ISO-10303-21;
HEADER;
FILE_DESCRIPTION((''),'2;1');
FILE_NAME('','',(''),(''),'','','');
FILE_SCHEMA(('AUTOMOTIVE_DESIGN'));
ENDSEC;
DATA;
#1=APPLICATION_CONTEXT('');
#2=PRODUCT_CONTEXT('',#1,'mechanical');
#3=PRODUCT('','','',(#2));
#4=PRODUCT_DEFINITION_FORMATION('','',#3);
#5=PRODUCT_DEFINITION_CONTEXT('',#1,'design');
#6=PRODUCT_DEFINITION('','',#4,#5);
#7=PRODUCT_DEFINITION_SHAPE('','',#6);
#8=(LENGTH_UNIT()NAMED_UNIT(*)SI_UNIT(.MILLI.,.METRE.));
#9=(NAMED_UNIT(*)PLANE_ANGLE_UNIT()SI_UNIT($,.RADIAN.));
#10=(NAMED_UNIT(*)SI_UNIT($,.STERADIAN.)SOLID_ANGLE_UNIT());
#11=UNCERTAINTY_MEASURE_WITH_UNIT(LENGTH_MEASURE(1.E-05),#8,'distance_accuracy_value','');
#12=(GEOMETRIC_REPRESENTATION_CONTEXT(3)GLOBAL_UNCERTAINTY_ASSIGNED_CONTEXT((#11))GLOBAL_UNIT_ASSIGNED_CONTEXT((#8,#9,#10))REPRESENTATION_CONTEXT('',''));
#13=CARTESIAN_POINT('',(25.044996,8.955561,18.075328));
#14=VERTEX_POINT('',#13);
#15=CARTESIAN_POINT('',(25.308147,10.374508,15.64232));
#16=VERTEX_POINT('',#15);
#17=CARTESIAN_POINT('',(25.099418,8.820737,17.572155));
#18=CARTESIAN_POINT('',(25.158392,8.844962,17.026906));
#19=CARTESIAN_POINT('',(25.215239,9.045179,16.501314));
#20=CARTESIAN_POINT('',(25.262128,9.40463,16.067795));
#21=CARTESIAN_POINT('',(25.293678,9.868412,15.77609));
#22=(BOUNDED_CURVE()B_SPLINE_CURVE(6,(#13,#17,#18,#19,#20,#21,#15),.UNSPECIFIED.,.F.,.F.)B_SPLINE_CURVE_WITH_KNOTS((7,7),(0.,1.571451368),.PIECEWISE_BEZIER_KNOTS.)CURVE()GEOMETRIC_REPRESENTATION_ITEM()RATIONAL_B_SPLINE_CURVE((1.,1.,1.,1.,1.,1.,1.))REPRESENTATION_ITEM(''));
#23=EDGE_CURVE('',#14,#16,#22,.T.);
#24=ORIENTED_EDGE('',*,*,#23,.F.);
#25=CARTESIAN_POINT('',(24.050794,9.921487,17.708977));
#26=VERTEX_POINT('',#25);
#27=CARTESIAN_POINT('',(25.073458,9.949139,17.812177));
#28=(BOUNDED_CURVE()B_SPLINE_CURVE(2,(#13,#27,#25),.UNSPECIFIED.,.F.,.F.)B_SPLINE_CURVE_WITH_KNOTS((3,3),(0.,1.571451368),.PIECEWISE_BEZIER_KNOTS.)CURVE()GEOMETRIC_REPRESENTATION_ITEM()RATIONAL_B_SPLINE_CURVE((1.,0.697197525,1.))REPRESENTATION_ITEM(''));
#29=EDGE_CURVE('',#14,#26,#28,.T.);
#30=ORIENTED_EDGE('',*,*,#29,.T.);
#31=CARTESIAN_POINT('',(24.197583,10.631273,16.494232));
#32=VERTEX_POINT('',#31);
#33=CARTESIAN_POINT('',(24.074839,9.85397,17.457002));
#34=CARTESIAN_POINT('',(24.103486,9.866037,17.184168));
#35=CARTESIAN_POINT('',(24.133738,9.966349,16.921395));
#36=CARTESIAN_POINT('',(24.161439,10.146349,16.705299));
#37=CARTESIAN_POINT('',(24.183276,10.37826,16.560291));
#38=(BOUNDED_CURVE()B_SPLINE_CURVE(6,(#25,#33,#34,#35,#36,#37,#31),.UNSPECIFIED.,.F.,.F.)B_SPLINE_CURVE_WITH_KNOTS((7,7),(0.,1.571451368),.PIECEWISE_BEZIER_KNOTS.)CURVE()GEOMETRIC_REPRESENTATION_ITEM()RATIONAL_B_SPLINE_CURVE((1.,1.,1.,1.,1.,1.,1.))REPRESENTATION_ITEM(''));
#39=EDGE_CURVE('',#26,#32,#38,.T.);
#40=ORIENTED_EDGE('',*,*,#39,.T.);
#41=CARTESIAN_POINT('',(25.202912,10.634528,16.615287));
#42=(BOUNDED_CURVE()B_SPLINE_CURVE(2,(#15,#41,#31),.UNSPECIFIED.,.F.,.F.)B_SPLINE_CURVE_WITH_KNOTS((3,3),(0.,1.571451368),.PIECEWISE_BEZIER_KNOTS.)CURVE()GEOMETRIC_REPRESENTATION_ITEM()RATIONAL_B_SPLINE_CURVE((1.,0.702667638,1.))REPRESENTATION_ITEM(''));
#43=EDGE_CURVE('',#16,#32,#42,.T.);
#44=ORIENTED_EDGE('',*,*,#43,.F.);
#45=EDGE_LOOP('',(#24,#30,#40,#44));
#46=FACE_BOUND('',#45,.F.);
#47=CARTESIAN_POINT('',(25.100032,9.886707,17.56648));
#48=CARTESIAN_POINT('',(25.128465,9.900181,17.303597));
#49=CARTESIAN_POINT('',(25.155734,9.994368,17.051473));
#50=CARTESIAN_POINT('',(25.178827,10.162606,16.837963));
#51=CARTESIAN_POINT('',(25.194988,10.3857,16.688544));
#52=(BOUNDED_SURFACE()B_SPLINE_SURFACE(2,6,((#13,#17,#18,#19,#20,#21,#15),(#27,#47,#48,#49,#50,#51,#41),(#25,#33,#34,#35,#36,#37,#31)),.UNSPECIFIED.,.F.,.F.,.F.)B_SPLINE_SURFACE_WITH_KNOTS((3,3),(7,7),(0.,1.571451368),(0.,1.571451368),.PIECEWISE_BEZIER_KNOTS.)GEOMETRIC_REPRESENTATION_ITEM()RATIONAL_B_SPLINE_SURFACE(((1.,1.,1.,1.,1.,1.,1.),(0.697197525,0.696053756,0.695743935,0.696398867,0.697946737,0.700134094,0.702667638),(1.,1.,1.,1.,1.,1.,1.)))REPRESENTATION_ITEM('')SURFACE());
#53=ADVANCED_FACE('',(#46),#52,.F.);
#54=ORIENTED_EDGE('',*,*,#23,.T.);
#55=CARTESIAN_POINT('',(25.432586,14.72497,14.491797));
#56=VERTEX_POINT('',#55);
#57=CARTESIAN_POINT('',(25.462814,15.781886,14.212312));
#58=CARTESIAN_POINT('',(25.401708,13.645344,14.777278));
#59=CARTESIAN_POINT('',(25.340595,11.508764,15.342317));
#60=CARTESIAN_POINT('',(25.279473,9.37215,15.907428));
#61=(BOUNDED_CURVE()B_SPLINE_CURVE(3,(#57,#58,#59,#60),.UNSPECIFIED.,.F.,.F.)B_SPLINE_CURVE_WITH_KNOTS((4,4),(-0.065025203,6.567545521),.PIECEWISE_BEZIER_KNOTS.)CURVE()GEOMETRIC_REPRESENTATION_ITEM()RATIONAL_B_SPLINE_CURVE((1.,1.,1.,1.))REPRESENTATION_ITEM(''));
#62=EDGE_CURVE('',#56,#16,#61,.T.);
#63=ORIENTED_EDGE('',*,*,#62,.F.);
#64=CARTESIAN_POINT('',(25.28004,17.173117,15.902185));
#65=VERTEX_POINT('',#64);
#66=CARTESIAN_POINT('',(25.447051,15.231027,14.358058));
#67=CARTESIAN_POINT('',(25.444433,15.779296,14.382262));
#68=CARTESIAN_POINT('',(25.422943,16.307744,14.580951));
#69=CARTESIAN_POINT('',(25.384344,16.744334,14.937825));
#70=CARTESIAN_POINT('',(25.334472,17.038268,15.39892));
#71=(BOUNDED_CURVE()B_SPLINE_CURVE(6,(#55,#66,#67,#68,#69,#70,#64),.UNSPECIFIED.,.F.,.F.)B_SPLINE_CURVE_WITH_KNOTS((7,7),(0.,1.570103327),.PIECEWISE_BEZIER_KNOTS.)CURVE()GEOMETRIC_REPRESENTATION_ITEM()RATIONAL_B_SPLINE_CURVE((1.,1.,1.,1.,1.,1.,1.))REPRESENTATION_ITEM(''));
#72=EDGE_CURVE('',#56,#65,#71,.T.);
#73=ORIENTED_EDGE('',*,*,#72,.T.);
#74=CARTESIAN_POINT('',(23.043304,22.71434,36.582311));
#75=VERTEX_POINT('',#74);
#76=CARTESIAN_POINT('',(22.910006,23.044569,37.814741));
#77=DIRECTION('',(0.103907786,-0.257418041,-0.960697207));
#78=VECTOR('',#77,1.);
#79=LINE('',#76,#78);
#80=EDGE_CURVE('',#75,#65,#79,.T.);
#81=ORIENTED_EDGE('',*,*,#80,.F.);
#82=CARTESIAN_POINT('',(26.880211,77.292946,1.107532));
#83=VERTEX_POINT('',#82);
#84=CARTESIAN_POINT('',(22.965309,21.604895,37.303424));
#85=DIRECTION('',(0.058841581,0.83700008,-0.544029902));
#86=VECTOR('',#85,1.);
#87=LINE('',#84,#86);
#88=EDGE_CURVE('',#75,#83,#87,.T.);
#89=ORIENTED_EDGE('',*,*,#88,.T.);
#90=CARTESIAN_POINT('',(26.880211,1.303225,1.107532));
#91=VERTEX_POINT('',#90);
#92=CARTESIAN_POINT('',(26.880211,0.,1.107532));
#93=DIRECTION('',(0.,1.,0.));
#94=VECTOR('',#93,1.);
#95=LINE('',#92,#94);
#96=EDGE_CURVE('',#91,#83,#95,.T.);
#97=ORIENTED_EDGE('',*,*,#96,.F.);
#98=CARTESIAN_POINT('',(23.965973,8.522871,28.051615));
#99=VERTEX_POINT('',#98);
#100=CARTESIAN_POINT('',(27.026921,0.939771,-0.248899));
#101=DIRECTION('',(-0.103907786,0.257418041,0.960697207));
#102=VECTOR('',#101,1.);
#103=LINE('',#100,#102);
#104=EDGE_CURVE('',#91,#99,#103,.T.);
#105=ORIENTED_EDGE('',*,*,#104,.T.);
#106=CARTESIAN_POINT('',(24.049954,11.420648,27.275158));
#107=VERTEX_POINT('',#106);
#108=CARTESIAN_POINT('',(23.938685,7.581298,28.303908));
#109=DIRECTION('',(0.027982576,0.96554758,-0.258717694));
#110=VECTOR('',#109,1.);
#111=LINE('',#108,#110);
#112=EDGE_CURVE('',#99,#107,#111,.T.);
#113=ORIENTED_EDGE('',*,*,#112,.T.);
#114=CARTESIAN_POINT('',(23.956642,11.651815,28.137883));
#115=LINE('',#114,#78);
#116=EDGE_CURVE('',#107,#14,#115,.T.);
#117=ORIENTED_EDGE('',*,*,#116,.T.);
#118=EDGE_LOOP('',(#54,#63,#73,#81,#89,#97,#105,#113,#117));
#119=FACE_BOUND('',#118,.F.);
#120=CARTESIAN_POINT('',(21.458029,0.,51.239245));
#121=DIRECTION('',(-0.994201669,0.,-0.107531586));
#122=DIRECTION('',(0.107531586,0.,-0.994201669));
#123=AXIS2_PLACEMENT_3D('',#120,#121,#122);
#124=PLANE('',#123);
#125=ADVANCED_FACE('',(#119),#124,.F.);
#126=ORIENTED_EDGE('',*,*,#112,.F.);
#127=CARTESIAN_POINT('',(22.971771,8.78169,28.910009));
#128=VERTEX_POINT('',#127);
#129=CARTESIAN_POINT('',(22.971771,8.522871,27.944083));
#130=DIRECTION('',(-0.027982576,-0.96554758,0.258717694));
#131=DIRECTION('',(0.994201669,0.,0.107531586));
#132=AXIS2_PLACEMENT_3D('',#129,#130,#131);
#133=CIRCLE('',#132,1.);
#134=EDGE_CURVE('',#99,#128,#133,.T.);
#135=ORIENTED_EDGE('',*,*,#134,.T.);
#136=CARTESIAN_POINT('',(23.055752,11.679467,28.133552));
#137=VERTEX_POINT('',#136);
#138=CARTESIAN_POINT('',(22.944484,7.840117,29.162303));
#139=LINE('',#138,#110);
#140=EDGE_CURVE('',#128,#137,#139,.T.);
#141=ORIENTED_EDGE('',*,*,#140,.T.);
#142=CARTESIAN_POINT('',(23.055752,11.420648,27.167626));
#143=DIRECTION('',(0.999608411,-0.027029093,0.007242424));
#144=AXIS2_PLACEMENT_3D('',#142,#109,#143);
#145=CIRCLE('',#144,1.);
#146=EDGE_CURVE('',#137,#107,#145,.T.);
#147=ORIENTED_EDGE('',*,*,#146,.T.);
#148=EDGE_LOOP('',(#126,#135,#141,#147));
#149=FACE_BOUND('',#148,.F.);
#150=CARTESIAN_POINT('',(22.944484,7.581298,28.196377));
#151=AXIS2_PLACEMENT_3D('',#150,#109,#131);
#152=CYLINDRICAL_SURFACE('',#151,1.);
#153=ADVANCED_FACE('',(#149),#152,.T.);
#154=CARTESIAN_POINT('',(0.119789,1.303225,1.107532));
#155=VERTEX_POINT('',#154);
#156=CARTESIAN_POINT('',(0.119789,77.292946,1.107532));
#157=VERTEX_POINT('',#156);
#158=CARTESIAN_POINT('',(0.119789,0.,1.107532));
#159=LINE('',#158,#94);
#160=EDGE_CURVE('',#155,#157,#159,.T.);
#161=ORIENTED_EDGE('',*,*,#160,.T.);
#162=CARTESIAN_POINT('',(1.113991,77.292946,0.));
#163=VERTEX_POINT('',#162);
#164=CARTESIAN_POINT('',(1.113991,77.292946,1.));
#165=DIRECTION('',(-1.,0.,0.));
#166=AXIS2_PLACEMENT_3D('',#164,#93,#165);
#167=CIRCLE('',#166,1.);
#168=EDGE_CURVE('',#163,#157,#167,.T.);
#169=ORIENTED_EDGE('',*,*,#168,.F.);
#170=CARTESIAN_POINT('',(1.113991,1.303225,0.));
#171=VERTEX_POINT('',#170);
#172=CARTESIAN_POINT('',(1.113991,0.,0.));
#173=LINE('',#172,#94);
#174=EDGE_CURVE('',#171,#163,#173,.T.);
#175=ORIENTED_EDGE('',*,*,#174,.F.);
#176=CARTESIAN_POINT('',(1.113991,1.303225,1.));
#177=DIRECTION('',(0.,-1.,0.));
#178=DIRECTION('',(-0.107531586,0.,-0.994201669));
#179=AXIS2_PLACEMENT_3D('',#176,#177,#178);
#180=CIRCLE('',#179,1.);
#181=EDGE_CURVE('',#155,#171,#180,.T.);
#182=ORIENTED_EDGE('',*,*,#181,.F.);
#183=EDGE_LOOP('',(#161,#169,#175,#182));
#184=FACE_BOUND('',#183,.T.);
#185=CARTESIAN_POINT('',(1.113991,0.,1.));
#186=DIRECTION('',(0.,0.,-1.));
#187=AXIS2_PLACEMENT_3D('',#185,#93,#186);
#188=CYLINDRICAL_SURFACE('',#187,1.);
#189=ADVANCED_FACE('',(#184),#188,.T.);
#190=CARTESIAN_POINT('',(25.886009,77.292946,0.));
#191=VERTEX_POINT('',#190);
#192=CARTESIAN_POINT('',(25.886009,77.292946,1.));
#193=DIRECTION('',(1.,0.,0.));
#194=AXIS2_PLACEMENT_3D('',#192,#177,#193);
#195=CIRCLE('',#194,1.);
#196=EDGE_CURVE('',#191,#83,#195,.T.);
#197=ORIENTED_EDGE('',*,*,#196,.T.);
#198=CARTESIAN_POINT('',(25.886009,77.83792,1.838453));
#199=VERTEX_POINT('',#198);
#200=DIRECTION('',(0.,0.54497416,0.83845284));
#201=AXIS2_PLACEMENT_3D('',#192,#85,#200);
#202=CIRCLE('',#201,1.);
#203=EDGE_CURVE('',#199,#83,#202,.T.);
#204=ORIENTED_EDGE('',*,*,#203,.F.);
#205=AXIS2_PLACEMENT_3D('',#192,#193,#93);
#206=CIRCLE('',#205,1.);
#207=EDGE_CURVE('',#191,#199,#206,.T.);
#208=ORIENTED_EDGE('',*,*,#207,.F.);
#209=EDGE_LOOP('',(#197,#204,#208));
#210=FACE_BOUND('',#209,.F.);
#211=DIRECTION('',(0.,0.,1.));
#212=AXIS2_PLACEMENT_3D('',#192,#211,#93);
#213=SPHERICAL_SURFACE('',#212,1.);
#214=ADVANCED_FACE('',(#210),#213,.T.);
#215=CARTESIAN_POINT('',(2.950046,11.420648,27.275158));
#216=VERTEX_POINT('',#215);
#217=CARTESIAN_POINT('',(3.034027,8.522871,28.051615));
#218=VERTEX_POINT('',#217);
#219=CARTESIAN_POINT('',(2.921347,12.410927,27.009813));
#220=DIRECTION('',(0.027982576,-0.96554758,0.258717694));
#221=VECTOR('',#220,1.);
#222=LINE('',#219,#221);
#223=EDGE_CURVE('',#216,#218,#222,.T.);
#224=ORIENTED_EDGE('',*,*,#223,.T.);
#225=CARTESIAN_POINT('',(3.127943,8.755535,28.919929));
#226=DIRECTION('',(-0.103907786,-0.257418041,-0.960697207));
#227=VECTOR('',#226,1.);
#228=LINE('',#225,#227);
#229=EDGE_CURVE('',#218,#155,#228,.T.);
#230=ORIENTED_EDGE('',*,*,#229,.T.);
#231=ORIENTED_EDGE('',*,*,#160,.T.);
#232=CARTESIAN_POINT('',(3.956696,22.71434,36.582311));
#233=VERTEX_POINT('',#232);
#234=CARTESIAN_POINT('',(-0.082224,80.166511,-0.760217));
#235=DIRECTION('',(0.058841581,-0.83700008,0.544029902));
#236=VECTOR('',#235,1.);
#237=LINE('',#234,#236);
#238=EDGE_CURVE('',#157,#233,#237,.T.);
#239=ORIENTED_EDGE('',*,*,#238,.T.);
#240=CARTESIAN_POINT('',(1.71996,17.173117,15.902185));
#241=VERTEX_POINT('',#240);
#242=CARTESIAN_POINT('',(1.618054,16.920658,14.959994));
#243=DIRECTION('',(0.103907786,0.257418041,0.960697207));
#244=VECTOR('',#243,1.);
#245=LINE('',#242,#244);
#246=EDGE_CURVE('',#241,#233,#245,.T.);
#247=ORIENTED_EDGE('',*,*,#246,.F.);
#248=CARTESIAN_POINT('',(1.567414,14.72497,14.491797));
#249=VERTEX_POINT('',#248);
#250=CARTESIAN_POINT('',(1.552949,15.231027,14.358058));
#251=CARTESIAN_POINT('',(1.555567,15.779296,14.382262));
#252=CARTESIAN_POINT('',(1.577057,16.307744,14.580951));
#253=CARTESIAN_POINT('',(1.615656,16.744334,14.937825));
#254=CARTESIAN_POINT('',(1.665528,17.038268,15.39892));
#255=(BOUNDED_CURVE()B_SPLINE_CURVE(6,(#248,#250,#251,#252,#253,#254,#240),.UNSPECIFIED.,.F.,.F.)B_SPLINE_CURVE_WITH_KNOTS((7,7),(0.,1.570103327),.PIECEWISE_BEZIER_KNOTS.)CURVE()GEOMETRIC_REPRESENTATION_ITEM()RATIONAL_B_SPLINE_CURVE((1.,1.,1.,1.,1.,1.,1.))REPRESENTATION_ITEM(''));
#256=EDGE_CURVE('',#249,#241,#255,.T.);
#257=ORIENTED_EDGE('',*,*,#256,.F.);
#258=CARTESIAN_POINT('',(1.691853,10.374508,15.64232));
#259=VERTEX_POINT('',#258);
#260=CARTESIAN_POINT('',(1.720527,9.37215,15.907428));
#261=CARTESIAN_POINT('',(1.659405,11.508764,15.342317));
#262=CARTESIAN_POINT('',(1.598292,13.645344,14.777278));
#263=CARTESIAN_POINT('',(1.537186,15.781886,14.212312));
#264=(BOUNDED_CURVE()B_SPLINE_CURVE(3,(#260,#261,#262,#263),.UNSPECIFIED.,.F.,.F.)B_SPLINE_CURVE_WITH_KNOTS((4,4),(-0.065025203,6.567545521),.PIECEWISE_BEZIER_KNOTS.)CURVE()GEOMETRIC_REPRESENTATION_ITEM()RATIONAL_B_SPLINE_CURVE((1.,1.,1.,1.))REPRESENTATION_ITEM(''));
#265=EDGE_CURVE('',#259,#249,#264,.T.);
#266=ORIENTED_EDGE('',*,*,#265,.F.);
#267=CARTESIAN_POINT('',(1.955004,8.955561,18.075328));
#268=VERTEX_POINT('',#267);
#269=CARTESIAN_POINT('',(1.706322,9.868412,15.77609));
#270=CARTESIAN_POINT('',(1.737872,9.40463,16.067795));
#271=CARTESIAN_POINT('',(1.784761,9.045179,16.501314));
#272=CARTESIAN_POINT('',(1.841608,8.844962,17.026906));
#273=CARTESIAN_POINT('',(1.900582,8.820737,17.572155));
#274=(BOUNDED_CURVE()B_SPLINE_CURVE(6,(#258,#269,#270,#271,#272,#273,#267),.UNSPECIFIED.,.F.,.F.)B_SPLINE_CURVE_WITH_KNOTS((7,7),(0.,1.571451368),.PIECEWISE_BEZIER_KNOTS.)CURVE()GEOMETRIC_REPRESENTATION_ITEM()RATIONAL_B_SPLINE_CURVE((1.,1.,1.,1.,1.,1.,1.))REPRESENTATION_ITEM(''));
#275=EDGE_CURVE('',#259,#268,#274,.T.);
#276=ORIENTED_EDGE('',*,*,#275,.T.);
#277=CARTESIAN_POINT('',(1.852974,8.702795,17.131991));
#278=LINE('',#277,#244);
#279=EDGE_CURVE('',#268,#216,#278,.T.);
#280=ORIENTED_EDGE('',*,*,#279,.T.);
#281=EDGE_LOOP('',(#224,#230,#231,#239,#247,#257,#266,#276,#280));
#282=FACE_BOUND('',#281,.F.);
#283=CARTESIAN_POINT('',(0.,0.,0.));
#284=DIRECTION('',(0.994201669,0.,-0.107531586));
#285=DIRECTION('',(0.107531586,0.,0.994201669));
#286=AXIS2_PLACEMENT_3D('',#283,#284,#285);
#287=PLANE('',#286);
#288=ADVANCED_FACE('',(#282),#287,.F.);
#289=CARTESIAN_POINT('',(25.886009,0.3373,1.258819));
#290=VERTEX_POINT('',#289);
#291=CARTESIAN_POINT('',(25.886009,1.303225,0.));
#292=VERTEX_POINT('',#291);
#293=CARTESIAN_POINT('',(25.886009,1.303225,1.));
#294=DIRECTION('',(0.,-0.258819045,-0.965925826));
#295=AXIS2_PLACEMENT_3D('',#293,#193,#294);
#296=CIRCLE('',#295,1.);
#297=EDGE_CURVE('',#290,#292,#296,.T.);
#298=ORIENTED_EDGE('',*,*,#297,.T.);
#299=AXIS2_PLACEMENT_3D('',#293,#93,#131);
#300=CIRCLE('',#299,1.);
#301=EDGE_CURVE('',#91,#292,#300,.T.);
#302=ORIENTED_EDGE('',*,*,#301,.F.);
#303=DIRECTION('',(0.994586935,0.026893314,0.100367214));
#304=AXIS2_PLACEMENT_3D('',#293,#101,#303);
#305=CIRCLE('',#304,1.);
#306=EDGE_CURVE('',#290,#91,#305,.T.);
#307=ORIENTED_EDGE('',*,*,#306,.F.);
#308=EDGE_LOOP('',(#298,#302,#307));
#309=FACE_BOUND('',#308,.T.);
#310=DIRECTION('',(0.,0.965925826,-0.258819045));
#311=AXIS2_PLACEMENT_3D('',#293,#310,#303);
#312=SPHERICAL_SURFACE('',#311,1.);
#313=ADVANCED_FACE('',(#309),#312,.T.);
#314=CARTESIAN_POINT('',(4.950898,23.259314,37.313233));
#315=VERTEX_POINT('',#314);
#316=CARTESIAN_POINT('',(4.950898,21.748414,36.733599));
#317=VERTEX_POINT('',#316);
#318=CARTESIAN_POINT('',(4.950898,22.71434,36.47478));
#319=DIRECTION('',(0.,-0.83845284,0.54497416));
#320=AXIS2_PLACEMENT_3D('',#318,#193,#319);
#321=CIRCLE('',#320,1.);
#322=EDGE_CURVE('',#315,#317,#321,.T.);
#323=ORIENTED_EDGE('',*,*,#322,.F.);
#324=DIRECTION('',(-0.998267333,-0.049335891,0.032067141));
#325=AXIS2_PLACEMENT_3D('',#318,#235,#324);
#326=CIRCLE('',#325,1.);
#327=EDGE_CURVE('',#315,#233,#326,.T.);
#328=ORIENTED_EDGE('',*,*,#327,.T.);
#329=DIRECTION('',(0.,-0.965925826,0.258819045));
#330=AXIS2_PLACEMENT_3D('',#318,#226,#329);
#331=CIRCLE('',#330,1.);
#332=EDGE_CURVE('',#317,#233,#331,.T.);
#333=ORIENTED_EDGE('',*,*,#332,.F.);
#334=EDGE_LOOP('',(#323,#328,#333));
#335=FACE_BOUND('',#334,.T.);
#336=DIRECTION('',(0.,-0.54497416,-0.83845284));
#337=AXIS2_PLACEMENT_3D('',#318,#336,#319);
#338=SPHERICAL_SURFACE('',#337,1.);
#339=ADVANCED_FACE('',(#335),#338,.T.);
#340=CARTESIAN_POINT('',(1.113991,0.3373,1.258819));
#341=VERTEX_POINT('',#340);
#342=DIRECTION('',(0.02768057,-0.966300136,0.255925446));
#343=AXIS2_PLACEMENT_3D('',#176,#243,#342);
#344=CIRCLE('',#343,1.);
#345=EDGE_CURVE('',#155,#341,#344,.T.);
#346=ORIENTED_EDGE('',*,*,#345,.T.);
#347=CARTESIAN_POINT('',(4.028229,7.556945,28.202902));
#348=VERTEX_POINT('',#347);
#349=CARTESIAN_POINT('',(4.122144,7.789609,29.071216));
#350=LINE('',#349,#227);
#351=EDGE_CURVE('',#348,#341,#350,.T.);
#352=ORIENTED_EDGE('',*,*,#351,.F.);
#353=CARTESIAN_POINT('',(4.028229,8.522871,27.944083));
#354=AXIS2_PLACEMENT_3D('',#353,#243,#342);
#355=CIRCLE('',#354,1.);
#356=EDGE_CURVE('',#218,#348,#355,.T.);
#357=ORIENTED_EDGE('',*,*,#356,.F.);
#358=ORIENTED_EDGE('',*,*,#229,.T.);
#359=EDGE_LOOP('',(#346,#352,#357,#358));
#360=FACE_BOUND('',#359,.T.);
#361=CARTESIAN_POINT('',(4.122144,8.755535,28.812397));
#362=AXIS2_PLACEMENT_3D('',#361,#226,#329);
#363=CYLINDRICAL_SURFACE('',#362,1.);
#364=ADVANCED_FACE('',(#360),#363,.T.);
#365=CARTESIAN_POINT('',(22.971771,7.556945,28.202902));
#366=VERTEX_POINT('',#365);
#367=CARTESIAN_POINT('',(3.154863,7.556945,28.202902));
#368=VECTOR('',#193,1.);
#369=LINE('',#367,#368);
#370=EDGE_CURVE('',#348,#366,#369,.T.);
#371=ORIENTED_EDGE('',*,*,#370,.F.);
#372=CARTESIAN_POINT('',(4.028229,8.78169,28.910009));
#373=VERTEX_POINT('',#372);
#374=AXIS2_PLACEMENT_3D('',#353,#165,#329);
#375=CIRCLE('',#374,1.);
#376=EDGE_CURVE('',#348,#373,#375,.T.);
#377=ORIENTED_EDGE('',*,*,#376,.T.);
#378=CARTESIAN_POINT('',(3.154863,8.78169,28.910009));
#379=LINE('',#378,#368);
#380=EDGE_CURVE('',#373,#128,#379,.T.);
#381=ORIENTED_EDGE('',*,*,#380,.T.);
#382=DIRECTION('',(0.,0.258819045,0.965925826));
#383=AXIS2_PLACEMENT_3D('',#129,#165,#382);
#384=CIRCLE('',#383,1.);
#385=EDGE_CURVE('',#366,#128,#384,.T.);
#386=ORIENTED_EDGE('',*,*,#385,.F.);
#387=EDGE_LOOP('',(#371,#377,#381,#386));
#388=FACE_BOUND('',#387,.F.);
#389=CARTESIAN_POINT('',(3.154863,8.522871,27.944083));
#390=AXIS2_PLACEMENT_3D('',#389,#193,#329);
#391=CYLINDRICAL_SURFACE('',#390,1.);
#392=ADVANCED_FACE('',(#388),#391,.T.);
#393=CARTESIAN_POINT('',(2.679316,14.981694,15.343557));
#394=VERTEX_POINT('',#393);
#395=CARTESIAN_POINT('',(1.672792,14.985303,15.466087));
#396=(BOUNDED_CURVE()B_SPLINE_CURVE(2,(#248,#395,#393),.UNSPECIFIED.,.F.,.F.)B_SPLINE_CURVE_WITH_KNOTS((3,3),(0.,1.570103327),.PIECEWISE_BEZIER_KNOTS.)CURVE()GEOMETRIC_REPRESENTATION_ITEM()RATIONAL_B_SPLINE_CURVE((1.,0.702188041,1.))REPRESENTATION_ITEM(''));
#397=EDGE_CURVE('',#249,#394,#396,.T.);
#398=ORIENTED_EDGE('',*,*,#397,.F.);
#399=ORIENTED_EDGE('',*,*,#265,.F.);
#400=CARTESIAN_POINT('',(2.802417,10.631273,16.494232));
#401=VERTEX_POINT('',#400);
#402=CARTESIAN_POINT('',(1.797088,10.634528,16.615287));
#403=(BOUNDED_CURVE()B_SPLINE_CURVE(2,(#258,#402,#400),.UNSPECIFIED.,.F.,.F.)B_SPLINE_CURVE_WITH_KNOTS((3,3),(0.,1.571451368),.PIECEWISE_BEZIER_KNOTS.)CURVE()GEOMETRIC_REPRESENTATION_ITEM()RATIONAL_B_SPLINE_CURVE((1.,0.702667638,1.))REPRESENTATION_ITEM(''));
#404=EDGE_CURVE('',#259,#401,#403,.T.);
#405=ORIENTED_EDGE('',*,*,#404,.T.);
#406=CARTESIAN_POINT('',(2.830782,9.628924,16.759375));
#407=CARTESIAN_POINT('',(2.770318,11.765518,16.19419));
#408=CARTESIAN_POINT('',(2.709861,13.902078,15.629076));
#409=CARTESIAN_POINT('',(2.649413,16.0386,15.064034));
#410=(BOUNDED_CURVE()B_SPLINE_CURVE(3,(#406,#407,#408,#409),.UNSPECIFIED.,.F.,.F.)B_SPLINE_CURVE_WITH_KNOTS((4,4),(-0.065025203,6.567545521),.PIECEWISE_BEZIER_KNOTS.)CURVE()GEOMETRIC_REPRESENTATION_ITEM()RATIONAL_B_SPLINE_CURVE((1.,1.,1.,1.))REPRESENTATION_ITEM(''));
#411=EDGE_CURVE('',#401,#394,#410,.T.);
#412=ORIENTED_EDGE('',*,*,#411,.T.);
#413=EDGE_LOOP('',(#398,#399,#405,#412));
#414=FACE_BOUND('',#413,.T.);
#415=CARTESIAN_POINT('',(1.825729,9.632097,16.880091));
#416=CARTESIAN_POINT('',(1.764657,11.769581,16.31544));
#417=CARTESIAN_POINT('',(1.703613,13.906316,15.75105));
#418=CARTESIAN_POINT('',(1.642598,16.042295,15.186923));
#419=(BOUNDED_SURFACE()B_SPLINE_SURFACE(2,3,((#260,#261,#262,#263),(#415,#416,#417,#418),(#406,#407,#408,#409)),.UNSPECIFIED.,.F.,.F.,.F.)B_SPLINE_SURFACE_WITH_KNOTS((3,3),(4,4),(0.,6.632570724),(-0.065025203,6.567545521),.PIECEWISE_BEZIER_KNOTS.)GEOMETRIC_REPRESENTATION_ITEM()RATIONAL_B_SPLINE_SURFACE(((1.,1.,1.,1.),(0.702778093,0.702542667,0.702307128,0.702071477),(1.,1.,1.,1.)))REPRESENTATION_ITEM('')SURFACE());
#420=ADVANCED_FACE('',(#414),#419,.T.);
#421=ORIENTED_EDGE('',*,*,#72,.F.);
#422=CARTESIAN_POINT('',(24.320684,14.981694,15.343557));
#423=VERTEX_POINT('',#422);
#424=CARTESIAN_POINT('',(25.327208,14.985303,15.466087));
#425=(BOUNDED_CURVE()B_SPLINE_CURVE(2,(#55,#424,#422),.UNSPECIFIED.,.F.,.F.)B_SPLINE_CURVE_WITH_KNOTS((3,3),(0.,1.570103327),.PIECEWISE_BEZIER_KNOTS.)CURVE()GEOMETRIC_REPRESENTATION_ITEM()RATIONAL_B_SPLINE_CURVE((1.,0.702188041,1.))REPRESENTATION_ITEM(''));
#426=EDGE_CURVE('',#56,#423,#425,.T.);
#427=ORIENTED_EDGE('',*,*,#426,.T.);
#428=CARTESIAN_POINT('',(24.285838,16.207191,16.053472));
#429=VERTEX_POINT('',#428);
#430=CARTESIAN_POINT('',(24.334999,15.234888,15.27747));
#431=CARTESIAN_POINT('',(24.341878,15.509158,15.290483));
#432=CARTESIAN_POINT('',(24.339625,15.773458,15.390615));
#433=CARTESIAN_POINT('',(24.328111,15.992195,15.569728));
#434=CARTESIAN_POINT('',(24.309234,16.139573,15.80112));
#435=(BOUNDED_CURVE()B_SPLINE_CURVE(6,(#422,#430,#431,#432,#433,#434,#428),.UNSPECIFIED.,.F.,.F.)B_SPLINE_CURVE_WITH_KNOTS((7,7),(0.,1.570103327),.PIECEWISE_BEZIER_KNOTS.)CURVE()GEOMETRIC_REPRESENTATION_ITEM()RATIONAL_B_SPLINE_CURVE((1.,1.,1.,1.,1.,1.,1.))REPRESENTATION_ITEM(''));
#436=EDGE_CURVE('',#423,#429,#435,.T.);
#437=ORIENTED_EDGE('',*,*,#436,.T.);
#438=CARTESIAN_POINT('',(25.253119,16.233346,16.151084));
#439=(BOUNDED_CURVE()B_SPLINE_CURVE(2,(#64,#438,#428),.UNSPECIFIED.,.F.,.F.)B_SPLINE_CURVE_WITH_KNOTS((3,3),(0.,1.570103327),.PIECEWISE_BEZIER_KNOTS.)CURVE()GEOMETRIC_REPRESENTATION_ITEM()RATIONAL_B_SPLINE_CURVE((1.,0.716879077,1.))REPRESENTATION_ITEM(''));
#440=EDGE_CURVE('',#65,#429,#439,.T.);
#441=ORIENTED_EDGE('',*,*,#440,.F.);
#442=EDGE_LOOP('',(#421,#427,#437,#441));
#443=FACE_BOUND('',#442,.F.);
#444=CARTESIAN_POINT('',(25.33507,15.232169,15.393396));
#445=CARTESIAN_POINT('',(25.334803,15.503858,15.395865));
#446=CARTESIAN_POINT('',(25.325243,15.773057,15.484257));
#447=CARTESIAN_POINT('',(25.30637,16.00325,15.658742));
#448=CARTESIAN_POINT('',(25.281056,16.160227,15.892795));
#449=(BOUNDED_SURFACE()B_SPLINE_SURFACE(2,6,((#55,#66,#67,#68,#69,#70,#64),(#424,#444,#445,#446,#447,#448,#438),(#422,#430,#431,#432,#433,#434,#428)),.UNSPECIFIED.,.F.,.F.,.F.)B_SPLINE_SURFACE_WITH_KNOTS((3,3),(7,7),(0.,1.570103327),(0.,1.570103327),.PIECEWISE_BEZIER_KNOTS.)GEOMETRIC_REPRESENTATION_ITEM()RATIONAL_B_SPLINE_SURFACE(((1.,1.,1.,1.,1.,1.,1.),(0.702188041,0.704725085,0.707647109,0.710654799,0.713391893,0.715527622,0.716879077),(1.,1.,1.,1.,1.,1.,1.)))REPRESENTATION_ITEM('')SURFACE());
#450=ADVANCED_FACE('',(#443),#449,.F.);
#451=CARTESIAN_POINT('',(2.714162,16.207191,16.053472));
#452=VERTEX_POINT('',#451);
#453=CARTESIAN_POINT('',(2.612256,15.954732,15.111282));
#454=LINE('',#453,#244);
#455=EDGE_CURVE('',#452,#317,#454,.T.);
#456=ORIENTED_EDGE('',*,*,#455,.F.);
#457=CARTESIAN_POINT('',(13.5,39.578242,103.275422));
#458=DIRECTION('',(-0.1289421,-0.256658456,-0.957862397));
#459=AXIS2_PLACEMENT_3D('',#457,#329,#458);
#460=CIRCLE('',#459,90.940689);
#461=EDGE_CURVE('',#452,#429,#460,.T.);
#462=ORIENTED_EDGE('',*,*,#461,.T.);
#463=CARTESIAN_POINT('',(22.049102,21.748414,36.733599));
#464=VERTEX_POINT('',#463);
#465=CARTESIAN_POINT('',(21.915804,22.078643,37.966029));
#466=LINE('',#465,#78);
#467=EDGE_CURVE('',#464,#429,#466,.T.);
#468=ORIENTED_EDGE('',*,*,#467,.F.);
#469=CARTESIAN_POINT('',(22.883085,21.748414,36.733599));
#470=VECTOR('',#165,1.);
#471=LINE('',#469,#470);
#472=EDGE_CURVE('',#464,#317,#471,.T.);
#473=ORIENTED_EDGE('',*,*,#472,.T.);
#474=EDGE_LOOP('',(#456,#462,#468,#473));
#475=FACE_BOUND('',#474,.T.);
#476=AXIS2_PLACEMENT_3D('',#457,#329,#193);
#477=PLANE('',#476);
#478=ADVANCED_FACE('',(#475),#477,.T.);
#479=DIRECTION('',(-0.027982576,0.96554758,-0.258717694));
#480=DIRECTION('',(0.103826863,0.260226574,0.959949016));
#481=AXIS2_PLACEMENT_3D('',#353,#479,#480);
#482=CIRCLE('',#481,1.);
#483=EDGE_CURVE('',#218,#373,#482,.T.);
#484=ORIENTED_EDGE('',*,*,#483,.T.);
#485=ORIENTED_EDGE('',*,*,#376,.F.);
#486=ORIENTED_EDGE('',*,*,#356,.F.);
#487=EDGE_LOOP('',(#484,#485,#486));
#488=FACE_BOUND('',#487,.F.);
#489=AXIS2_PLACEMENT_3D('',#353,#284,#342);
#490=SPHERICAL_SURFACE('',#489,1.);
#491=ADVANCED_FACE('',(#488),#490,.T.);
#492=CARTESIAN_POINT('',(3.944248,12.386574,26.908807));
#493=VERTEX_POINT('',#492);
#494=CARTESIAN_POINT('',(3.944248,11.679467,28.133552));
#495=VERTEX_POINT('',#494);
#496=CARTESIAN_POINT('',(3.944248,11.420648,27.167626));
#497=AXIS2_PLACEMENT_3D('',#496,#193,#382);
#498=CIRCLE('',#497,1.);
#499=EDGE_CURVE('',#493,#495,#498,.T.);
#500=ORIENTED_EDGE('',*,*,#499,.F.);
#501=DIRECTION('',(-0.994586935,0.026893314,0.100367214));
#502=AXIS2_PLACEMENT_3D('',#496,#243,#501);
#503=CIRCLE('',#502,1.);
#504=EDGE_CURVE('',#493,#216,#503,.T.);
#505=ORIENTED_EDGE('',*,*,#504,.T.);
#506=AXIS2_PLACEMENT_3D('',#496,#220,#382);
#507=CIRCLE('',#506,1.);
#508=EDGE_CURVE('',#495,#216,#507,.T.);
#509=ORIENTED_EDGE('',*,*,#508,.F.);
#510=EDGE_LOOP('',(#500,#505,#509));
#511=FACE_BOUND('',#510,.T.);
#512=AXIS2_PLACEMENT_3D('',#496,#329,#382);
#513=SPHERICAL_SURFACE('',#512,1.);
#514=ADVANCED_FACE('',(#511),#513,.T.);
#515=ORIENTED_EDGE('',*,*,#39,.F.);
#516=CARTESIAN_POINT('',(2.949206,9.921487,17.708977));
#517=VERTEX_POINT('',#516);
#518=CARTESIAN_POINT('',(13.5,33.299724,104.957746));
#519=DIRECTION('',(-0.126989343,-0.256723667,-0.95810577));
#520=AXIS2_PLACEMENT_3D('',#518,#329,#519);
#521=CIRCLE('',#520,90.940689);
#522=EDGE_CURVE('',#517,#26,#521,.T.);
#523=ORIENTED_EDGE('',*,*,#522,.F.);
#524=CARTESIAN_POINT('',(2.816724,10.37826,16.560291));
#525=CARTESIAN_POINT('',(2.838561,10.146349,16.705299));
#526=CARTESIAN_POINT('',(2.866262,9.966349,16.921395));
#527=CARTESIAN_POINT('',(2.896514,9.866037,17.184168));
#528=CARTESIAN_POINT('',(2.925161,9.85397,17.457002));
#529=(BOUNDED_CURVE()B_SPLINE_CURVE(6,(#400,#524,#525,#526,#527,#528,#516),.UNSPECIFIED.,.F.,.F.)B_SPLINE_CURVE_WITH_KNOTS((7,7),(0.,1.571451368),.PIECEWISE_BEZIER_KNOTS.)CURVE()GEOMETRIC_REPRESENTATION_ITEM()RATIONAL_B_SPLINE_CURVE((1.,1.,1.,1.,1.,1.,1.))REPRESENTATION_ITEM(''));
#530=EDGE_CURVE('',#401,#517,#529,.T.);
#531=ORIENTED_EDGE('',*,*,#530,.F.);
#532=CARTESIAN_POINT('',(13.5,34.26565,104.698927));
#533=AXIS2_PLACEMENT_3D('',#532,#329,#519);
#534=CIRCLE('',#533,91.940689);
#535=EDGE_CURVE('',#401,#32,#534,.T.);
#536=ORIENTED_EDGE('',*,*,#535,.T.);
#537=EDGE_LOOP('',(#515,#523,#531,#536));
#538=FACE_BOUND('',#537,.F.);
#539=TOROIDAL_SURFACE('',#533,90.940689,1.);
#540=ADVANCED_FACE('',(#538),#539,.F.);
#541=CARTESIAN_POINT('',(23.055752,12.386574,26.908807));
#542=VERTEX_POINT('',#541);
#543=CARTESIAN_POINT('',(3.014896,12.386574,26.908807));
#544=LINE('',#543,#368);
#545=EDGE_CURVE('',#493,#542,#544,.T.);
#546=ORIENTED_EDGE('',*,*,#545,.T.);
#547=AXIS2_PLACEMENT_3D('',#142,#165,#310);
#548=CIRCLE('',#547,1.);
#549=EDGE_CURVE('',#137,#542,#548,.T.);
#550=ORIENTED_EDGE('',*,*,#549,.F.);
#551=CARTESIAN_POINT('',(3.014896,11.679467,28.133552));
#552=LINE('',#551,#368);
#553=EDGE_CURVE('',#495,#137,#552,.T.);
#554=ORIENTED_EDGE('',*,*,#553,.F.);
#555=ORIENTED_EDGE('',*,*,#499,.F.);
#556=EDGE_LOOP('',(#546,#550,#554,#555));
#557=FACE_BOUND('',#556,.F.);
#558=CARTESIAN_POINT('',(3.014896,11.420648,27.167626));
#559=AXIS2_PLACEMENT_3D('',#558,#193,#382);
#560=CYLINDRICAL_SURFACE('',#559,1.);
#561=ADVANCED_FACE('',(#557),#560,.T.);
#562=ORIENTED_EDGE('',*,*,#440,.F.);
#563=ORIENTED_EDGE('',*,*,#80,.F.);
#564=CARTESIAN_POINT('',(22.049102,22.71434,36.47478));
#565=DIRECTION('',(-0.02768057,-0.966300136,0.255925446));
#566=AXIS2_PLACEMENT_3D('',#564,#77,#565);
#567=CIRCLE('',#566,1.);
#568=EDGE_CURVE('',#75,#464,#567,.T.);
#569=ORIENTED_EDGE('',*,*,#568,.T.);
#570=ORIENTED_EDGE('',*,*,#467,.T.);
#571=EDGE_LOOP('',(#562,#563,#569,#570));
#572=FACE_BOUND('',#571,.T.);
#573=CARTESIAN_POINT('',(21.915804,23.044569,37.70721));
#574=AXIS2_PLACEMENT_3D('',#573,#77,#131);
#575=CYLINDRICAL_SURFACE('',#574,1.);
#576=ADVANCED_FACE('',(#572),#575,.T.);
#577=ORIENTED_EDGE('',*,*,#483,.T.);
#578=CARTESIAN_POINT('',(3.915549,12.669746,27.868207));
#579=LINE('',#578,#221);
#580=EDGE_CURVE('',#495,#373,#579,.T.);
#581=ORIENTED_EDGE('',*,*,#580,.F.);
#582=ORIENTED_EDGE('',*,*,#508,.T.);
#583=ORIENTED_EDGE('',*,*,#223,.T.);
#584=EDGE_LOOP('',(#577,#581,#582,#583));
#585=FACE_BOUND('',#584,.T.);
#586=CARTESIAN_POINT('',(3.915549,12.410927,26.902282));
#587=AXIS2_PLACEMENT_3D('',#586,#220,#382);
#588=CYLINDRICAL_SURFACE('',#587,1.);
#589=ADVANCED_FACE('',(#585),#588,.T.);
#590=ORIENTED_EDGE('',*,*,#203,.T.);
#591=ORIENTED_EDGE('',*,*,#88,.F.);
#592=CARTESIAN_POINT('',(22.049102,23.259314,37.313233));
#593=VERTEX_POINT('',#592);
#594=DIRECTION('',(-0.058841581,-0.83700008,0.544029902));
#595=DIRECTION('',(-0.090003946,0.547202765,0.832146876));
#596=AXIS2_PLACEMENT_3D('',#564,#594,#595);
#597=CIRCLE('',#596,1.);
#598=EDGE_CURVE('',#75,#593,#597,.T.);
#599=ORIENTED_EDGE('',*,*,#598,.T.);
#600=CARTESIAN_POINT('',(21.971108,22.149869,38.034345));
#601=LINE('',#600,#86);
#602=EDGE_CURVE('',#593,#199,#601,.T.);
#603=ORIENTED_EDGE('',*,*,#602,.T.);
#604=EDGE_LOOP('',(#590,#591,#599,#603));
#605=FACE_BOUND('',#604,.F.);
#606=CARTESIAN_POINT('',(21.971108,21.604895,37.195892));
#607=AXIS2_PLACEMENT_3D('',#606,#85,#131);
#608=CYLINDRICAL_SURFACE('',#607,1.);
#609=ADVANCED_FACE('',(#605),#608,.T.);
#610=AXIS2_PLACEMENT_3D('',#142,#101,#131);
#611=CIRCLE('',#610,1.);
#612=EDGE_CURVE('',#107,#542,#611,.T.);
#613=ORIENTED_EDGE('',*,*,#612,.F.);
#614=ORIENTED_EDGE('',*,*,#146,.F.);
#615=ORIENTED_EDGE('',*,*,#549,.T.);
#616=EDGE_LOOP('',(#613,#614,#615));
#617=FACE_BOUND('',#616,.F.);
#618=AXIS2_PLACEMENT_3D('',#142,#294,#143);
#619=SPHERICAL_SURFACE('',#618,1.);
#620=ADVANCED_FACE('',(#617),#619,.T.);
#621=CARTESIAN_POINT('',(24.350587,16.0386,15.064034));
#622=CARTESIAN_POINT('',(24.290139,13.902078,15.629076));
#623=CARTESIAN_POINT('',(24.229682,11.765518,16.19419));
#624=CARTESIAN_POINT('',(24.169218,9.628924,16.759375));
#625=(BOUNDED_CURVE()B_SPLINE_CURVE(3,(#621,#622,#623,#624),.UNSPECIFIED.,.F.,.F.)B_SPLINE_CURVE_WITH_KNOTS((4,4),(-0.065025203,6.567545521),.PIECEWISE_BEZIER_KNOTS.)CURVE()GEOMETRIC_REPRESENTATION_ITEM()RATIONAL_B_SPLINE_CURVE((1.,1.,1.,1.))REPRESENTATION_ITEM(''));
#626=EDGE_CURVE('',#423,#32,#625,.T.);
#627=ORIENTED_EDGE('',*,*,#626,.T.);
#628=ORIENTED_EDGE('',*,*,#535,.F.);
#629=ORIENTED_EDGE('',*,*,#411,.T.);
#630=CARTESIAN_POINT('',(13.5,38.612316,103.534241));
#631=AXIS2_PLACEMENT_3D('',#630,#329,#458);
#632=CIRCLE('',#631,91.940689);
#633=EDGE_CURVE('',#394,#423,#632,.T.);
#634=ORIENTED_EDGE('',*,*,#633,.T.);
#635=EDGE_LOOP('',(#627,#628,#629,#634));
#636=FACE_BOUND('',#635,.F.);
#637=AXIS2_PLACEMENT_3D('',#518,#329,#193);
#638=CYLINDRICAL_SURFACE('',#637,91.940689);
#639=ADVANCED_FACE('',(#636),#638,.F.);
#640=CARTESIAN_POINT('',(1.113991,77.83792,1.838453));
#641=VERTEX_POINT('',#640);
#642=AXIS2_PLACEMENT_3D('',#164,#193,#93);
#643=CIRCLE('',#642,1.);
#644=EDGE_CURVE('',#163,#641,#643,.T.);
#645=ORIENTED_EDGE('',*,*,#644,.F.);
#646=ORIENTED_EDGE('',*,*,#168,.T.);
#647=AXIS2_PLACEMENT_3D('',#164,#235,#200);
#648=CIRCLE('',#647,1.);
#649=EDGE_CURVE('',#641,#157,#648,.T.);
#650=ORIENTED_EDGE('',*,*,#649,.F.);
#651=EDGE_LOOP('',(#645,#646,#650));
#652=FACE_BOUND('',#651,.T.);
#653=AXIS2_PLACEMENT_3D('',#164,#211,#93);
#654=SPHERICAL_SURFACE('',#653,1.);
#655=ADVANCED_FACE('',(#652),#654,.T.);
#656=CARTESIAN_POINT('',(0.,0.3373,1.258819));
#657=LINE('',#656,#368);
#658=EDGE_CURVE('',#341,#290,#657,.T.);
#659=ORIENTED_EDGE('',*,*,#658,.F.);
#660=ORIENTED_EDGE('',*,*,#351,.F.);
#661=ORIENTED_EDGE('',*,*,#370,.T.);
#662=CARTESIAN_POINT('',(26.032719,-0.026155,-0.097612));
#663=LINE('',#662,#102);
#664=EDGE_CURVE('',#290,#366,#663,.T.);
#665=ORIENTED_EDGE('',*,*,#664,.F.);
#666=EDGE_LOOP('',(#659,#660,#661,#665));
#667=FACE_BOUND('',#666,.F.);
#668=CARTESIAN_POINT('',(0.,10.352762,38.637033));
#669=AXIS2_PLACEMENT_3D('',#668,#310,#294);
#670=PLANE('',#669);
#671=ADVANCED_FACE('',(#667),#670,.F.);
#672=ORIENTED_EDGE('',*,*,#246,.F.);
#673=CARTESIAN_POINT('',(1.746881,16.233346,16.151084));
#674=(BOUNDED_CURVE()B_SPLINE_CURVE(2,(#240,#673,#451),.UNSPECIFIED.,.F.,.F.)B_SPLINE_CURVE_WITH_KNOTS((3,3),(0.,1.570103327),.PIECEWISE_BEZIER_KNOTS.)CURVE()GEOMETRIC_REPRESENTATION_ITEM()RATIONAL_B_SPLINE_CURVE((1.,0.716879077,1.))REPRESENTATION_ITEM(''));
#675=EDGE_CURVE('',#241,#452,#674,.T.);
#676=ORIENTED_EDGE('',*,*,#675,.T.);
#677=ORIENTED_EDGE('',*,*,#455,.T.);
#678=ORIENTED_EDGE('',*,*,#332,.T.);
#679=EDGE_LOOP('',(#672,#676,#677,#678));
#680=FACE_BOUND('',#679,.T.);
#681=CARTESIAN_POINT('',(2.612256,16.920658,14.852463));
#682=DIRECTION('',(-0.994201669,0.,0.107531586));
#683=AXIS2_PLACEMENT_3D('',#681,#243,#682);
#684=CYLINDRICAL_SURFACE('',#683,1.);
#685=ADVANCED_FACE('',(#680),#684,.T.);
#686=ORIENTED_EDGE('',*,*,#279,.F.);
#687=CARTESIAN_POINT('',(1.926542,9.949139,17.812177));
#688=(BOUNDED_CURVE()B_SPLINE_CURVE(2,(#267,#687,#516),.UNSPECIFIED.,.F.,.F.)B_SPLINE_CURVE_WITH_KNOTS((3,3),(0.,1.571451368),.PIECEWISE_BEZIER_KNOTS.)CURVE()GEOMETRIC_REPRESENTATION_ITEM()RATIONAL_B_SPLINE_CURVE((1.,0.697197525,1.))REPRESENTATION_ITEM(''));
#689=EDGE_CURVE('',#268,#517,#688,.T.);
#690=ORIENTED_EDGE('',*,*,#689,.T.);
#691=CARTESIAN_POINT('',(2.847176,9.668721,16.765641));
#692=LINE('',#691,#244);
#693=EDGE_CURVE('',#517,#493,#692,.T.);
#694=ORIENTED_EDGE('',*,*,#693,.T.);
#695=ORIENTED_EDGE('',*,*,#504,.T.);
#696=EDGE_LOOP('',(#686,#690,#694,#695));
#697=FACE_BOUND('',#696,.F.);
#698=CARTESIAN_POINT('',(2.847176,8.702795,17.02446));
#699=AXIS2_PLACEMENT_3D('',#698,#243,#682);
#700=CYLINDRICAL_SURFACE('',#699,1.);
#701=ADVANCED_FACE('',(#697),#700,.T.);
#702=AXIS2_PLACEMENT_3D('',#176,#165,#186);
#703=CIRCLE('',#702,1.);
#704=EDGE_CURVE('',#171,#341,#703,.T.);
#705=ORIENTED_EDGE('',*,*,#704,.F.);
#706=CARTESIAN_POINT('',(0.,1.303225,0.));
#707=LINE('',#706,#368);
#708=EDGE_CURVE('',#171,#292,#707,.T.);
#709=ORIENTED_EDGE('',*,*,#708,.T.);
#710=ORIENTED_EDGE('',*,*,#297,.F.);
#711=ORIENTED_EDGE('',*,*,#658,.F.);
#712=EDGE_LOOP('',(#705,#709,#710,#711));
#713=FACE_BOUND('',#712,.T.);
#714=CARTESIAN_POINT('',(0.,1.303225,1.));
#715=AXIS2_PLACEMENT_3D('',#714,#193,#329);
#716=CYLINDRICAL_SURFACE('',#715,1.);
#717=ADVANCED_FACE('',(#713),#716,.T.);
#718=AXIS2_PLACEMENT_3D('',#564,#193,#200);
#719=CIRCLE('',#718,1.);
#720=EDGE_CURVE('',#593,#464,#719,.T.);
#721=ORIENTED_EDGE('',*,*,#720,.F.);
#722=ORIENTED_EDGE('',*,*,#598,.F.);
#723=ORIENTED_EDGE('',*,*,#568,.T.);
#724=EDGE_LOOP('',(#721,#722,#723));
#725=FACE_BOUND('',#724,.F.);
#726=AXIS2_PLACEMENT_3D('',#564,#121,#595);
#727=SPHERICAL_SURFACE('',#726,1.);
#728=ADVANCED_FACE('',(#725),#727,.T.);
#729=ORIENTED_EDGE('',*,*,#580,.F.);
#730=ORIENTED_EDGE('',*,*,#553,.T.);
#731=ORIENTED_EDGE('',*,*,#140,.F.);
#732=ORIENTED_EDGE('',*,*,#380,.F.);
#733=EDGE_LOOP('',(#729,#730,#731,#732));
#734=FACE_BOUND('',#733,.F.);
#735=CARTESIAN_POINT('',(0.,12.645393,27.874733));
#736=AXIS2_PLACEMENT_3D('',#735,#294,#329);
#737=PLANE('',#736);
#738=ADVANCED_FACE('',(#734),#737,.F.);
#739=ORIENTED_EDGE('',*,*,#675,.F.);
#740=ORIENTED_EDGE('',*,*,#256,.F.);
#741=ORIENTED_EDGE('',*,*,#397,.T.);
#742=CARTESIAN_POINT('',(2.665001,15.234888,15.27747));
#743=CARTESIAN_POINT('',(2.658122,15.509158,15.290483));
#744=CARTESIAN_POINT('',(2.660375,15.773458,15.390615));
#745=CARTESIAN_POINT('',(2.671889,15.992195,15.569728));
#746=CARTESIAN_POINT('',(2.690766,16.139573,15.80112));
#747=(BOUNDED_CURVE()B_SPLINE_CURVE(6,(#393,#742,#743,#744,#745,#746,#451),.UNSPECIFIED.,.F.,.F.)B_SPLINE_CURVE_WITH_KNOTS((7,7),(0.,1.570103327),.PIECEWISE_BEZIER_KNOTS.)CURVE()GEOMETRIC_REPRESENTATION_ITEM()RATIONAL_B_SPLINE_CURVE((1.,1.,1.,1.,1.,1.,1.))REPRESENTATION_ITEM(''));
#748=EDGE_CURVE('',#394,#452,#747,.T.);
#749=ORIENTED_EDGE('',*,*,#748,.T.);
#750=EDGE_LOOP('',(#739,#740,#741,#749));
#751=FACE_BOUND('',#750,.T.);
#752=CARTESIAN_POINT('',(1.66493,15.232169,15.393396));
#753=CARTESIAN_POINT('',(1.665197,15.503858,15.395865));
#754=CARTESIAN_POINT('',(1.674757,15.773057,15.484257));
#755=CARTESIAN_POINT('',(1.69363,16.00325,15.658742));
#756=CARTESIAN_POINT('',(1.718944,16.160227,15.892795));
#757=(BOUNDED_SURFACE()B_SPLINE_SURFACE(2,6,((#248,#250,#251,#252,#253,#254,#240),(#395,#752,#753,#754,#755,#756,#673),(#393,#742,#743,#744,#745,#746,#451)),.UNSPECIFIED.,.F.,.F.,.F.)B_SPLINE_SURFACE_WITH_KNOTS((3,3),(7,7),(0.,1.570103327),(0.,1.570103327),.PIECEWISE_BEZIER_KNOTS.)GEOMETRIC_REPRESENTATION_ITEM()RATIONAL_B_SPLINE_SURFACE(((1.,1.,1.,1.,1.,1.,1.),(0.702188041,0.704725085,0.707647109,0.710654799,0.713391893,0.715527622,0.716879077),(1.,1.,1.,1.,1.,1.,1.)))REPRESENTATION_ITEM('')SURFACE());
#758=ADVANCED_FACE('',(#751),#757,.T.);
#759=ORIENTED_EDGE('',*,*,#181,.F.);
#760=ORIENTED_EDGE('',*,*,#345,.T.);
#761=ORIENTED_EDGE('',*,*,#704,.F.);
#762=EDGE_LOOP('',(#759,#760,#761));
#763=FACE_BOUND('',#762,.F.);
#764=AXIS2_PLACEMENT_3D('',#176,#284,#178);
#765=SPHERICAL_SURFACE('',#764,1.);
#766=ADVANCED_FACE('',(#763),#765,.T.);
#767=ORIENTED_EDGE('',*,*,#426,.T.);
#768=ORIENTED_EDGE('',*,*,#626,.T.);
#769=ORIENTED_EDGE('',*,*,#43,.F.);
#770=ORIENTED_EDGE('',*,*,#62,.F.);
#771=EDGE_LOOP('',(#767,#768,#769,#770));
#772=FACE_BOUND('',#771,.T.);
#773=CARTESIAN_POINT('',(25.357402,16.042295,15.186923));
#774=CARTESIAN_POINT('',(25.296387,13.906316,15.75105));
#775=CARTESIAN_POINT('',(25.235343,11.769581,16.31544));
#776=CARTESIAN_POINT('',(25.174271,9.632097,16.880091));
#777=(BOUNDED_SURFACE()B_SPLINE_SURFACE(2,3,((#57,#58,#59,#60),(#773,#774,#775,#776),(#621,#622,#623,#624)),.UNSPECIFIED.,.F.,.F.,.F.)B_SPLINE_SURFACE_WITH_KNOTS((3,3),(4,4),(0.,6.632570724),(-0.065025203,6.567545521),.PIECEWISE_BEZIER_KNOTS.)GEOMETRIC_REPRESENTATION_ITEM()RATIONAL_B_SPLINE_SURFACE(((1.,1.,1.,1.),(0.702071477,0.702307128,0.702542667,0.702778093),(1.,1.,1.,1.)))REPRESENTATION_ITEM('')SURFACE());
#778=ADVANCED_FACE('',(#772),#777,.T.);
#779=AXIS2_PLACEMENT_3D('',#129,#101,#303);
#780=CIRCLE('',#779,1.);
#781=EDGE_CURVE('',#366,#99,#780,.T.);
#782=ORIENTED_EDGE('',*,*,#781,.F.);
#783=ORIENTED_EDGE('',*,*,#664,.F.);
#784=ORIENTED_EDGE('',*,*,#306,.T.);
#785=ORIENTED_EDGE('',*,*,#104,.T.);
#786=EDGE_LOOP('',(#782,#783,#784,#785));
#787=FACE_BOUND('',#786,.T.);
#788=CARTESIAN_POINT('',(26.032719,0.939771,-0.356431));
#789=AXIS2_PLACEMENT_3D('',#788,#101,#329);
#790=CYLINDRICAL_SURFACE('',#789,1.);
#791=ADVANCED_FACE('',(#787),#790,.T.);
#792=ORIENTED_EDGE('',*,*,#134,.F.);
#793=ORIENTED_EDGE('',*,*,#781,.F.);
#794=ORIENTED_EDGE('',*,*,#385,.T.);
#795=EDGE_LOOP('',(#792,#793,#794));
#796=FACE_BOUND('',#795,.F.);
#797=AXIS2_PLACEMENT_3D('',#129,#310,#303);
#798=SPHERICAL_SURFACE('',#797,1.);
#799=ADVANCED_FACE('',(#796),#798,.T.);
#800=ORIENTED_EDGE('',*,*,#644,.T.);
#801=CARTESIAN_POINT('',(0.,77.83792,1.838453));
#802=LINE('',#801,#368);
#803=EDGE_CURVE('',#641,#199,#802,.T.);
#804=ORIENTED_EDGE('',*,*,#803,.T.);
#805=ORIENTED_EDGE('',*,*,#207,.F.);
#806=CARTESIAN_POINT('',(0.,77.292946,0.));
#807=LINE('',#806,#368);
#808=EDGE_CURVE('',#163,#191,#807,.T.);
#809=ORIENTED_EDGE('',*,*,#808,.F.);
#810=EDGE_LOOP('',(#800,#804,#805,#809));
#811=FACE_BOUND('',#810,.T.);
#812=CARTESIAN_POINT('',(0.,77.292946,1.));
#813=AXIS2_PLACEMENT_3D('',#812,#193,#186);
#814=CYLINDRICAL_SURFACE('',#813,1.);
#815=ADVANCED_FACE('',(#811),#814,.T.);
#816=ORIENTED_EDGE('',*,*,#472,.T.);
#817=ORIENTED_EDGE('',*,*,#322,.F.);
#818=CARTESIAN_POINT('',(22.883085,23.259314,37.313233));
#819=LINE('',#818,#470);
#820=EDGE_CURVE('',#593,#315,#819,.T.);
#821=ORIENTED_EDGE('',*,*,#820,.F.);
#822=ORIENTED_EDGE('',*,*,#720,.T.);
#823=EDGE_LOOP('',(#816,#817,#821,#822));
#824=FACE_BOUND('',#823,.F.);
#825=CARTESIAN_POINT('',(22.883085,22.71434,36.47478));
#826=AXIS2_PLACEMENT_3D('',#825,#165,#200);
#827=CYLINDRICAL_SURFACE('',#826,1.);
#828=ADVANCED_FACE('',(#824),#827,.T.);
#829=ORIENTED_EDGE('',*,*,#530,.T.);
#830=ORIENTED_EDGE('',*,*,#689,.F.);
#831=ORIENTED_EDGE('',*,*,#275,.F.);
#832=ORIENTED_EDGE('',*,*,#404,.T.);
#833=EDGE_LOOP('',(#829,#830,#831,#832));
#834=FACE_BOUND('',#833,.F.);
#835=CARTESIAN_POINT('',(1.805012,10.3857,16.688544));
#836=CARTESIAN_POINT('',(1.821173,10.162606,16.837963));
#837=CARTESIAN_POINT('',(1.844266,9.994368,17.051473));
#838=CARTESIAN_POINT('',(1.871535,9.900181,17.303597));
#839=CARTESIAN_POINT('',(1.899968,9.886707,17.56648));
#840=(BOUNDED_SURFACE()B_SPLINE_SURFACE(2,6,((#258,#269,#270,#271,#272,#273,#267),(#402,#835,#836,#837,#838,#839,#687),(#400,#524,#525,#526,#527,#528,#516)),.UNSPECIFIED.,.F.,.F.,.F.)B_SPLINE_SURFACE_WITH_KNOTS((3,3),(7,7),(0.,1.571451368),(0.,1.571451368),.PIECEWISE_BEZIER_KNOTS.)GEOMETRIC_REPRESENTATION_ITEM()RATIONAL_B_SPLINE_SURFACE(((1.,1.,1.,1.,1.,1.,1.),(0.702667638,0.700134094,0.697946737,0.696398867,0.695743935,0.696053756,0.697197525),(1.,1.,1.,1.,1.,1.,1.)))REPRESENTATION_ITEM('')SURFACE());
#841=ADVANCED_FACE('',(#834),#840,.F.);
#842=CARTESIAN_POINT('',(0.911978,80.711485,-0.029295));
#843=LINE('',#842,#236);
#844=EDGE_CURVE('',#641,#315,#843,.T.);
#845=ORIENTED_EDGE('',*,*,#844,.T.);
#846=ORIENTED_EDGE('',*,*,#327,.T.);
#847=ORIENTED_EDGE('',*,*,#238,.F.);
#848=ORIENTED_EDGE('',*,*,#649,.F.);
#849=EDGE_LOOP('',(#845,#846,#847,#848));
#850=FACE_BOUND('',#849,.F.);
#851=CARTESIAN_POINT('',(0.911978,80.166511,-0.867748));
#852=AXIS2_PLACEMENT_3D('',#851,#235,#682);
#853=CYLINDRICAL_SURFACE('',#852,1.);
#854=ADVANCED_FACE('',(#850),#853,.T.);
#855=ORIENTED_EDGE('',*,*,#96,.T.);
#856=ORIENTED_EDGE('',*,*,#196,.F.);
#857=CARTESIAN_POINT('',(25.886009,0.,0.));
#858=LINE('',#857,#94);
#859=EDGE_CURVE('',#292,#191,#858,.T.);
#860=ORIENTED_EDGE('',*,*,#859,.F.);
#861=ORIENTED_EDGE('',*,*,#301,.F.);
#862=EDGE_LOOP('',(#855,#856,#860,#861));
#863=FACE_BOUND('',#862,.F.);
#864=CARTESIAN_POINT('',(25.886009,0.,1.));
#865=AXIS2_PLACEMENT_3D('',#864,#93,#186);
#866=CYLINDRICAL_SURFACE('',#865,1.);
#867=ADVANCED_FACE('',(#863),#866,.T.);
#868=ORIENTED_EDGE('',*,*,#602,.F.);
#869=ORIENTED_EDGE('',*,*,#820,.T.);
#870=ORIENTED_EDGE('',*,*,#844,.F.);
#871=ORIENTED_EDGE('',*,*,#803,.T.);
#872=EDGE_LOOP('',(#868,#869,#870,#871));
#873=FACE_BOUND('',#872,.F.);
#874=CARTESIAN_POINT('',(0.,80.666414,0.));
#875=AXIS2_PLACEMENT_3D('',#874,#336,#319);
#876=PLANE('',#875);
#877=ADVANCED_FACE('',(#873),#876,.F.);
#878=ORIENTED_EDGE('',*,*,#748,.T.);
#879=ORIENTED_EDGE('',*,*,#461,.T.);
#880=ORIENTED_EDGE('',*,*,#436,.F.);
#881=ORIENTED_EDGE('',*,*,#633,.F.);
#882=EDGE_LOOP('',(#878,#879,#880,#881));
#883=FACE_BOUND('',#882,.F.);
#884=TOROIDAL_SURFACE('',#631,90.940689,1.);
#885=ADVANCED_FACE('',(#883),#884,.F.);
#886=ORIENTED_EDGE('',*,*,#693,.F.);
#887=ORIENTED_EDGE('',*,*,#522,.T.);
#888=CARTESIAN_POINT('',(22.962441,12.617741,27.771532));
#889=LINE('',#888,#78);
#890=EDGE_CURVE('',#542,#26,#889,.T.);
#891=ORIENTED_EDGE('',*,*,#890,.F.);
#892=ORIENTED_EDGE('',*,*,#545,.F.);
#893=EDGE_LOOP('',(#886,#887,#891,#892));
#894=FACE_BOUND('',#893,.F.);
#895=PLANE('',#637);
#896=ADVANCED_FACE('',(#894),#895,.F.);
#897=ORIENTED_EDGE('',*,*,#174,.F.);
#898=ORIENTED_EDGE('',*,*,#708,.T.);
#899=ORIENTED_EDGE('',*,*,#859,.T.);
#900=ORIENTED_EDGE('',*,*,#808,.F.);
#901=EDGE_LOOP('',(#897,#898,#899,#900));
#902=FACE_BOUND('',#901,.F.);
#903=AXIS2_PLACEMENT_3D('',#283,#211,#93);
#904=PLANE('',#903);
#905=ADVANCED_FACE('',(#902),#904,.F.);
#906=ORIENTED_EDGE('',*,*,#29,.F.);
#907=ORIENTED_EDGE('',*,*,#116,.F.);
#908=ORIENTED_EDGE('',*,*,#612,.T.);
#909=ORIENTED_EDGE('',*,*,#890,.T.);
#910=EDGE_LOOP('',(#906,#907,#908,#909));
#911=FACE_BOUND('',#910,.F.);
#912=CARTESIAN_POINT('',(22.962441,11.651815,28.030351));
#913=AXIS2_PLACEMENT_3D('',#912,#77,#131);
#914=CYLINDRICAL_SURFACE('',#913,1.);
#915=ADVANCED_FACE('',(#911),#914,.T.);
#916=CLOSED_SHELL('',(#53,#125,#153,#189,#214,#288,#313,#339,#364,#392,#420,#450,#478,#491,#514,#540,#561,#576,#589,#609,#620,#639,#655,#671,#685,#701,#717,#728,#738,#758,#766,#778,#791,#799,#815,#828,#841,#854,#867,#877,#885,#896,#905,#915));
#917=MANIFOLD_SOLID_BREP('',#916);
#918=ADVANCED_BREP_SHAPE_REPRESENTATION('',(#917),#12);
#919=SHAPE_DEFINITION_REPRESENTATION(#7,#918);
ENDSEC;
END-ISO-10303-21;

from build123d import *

# Parameters (mm, degrees)
F1_DEPTH = 27
F3_R     = 91.9406887246
F4_DEPTH = 6.5
F6_DEPTH = 43.7
F8_DEPTH = 96
F9_R     = 1


with BuildPart() as f1:
    # F0 (on Right) → F1 (new body)
    with BuildSketch(Plane.YZ):
        Polygon((10.3527618041, 38.6370330516), (0, 0), (80.6664137916, 0), (21.2226228125, 38.6370330516), align=None)
    extrude(amount=F1_DEPTH)

    # F3 (on offset) → F4 (cut)
    with BuildSketch(Plane(origin=(0, 4.8296291314, -1.2940952255), x_dir=(1, 0, 0), z_dir=(0, -0.9659258263, 0.2588190451))):
        with Locations((13.5, 110)):
            Circle(F3_R)
    extrude(amount=-F4_DEPTH, mode=Mode.SUBTRACT)

    # F5 (on face) → F6 (cut)
    with BuildSketch(Plane(origin=(0, 0, 0), x_dir=(0, -1, 0), z_dir=(-1, 0, 0))):
        Polygon((-18.6758581549, 34.7778759897), (-12.6453930714, 27.8747328985), (-15.5291427062, 38.6370330516), (-10.3527618041, 38.6370330516), (-7.81576394, 29.168828124), (-5.5674631149, 30.5033978075), (-7.2772535495, 43.6117947102), (-16.111170873, 47.3163388669), align=None)
        Polygon((-15.5291427062, 38.6370330516), (-12.6453930714, 27.8747328985), (-7.81576394, 29.168828124), (-10.3527618041, 38.6370330516), align=None)
    extrude(amount=-F6_DEPTH, mode=Mode.SUBTRACT)

    # F7 (on Front) → F8 (cut)
    with BuildSketch(Plane.XZ):
        Polygon((21.458028581, 51.2392446399), (27, 0), (40.6126193702, -9.302303195), (49.8705804348, 59.140522033), align=None)
        Polygon((-22.2092997283, -20.874761045), (0, 0), (5.541971419, 51.2392446399), (-20.2254503965, 29.3827727437), align=None)
    extrude(amount=-F8_DEPTH, mode=Mode.SUBTRACT)

    # F9
    f9_edges = [f1.edges().sort_by_distance(p)[0] for p in [
        (2.880945, 19.042842, 26.636267),
        (13.5, 22.104798, 38.063641),
        (2.058457, 51.385606, 19.03182),
        (24.941543, 51.385606, 19.03182),
        (13.5, 80.666414, 0),
        (24.119055, 19.042842, 26.636267),
        (13.5, 15.782241, 14.467536),
        (24.580296, 11.170883, 22.371787),
        (27, 40.333207, 0),
        (25.265261, 12.838619, 16.038825),
        (23.915121, 10.230579, 28.521781),
        (25.422568, 3.907882, 14.584414),
        (13.5, 0, 0),
        (0, 40.333207, 0),
        (13.5, 7.815764, 29.168828),
        (1.577432, 3.907882, 14.584414),
        (13.5, 9.503723, 16.14986),
        (1.734739, 12.838619, 16.038825),
        (3.084879, 10.230579, 28.521781),
        (13.5, 12.645393, 27.874733),
        (2.419704, 11.170883, 22.371787),
    ]]
    fillet(f9_edges, radius=F9_R)


solid = f1.part
